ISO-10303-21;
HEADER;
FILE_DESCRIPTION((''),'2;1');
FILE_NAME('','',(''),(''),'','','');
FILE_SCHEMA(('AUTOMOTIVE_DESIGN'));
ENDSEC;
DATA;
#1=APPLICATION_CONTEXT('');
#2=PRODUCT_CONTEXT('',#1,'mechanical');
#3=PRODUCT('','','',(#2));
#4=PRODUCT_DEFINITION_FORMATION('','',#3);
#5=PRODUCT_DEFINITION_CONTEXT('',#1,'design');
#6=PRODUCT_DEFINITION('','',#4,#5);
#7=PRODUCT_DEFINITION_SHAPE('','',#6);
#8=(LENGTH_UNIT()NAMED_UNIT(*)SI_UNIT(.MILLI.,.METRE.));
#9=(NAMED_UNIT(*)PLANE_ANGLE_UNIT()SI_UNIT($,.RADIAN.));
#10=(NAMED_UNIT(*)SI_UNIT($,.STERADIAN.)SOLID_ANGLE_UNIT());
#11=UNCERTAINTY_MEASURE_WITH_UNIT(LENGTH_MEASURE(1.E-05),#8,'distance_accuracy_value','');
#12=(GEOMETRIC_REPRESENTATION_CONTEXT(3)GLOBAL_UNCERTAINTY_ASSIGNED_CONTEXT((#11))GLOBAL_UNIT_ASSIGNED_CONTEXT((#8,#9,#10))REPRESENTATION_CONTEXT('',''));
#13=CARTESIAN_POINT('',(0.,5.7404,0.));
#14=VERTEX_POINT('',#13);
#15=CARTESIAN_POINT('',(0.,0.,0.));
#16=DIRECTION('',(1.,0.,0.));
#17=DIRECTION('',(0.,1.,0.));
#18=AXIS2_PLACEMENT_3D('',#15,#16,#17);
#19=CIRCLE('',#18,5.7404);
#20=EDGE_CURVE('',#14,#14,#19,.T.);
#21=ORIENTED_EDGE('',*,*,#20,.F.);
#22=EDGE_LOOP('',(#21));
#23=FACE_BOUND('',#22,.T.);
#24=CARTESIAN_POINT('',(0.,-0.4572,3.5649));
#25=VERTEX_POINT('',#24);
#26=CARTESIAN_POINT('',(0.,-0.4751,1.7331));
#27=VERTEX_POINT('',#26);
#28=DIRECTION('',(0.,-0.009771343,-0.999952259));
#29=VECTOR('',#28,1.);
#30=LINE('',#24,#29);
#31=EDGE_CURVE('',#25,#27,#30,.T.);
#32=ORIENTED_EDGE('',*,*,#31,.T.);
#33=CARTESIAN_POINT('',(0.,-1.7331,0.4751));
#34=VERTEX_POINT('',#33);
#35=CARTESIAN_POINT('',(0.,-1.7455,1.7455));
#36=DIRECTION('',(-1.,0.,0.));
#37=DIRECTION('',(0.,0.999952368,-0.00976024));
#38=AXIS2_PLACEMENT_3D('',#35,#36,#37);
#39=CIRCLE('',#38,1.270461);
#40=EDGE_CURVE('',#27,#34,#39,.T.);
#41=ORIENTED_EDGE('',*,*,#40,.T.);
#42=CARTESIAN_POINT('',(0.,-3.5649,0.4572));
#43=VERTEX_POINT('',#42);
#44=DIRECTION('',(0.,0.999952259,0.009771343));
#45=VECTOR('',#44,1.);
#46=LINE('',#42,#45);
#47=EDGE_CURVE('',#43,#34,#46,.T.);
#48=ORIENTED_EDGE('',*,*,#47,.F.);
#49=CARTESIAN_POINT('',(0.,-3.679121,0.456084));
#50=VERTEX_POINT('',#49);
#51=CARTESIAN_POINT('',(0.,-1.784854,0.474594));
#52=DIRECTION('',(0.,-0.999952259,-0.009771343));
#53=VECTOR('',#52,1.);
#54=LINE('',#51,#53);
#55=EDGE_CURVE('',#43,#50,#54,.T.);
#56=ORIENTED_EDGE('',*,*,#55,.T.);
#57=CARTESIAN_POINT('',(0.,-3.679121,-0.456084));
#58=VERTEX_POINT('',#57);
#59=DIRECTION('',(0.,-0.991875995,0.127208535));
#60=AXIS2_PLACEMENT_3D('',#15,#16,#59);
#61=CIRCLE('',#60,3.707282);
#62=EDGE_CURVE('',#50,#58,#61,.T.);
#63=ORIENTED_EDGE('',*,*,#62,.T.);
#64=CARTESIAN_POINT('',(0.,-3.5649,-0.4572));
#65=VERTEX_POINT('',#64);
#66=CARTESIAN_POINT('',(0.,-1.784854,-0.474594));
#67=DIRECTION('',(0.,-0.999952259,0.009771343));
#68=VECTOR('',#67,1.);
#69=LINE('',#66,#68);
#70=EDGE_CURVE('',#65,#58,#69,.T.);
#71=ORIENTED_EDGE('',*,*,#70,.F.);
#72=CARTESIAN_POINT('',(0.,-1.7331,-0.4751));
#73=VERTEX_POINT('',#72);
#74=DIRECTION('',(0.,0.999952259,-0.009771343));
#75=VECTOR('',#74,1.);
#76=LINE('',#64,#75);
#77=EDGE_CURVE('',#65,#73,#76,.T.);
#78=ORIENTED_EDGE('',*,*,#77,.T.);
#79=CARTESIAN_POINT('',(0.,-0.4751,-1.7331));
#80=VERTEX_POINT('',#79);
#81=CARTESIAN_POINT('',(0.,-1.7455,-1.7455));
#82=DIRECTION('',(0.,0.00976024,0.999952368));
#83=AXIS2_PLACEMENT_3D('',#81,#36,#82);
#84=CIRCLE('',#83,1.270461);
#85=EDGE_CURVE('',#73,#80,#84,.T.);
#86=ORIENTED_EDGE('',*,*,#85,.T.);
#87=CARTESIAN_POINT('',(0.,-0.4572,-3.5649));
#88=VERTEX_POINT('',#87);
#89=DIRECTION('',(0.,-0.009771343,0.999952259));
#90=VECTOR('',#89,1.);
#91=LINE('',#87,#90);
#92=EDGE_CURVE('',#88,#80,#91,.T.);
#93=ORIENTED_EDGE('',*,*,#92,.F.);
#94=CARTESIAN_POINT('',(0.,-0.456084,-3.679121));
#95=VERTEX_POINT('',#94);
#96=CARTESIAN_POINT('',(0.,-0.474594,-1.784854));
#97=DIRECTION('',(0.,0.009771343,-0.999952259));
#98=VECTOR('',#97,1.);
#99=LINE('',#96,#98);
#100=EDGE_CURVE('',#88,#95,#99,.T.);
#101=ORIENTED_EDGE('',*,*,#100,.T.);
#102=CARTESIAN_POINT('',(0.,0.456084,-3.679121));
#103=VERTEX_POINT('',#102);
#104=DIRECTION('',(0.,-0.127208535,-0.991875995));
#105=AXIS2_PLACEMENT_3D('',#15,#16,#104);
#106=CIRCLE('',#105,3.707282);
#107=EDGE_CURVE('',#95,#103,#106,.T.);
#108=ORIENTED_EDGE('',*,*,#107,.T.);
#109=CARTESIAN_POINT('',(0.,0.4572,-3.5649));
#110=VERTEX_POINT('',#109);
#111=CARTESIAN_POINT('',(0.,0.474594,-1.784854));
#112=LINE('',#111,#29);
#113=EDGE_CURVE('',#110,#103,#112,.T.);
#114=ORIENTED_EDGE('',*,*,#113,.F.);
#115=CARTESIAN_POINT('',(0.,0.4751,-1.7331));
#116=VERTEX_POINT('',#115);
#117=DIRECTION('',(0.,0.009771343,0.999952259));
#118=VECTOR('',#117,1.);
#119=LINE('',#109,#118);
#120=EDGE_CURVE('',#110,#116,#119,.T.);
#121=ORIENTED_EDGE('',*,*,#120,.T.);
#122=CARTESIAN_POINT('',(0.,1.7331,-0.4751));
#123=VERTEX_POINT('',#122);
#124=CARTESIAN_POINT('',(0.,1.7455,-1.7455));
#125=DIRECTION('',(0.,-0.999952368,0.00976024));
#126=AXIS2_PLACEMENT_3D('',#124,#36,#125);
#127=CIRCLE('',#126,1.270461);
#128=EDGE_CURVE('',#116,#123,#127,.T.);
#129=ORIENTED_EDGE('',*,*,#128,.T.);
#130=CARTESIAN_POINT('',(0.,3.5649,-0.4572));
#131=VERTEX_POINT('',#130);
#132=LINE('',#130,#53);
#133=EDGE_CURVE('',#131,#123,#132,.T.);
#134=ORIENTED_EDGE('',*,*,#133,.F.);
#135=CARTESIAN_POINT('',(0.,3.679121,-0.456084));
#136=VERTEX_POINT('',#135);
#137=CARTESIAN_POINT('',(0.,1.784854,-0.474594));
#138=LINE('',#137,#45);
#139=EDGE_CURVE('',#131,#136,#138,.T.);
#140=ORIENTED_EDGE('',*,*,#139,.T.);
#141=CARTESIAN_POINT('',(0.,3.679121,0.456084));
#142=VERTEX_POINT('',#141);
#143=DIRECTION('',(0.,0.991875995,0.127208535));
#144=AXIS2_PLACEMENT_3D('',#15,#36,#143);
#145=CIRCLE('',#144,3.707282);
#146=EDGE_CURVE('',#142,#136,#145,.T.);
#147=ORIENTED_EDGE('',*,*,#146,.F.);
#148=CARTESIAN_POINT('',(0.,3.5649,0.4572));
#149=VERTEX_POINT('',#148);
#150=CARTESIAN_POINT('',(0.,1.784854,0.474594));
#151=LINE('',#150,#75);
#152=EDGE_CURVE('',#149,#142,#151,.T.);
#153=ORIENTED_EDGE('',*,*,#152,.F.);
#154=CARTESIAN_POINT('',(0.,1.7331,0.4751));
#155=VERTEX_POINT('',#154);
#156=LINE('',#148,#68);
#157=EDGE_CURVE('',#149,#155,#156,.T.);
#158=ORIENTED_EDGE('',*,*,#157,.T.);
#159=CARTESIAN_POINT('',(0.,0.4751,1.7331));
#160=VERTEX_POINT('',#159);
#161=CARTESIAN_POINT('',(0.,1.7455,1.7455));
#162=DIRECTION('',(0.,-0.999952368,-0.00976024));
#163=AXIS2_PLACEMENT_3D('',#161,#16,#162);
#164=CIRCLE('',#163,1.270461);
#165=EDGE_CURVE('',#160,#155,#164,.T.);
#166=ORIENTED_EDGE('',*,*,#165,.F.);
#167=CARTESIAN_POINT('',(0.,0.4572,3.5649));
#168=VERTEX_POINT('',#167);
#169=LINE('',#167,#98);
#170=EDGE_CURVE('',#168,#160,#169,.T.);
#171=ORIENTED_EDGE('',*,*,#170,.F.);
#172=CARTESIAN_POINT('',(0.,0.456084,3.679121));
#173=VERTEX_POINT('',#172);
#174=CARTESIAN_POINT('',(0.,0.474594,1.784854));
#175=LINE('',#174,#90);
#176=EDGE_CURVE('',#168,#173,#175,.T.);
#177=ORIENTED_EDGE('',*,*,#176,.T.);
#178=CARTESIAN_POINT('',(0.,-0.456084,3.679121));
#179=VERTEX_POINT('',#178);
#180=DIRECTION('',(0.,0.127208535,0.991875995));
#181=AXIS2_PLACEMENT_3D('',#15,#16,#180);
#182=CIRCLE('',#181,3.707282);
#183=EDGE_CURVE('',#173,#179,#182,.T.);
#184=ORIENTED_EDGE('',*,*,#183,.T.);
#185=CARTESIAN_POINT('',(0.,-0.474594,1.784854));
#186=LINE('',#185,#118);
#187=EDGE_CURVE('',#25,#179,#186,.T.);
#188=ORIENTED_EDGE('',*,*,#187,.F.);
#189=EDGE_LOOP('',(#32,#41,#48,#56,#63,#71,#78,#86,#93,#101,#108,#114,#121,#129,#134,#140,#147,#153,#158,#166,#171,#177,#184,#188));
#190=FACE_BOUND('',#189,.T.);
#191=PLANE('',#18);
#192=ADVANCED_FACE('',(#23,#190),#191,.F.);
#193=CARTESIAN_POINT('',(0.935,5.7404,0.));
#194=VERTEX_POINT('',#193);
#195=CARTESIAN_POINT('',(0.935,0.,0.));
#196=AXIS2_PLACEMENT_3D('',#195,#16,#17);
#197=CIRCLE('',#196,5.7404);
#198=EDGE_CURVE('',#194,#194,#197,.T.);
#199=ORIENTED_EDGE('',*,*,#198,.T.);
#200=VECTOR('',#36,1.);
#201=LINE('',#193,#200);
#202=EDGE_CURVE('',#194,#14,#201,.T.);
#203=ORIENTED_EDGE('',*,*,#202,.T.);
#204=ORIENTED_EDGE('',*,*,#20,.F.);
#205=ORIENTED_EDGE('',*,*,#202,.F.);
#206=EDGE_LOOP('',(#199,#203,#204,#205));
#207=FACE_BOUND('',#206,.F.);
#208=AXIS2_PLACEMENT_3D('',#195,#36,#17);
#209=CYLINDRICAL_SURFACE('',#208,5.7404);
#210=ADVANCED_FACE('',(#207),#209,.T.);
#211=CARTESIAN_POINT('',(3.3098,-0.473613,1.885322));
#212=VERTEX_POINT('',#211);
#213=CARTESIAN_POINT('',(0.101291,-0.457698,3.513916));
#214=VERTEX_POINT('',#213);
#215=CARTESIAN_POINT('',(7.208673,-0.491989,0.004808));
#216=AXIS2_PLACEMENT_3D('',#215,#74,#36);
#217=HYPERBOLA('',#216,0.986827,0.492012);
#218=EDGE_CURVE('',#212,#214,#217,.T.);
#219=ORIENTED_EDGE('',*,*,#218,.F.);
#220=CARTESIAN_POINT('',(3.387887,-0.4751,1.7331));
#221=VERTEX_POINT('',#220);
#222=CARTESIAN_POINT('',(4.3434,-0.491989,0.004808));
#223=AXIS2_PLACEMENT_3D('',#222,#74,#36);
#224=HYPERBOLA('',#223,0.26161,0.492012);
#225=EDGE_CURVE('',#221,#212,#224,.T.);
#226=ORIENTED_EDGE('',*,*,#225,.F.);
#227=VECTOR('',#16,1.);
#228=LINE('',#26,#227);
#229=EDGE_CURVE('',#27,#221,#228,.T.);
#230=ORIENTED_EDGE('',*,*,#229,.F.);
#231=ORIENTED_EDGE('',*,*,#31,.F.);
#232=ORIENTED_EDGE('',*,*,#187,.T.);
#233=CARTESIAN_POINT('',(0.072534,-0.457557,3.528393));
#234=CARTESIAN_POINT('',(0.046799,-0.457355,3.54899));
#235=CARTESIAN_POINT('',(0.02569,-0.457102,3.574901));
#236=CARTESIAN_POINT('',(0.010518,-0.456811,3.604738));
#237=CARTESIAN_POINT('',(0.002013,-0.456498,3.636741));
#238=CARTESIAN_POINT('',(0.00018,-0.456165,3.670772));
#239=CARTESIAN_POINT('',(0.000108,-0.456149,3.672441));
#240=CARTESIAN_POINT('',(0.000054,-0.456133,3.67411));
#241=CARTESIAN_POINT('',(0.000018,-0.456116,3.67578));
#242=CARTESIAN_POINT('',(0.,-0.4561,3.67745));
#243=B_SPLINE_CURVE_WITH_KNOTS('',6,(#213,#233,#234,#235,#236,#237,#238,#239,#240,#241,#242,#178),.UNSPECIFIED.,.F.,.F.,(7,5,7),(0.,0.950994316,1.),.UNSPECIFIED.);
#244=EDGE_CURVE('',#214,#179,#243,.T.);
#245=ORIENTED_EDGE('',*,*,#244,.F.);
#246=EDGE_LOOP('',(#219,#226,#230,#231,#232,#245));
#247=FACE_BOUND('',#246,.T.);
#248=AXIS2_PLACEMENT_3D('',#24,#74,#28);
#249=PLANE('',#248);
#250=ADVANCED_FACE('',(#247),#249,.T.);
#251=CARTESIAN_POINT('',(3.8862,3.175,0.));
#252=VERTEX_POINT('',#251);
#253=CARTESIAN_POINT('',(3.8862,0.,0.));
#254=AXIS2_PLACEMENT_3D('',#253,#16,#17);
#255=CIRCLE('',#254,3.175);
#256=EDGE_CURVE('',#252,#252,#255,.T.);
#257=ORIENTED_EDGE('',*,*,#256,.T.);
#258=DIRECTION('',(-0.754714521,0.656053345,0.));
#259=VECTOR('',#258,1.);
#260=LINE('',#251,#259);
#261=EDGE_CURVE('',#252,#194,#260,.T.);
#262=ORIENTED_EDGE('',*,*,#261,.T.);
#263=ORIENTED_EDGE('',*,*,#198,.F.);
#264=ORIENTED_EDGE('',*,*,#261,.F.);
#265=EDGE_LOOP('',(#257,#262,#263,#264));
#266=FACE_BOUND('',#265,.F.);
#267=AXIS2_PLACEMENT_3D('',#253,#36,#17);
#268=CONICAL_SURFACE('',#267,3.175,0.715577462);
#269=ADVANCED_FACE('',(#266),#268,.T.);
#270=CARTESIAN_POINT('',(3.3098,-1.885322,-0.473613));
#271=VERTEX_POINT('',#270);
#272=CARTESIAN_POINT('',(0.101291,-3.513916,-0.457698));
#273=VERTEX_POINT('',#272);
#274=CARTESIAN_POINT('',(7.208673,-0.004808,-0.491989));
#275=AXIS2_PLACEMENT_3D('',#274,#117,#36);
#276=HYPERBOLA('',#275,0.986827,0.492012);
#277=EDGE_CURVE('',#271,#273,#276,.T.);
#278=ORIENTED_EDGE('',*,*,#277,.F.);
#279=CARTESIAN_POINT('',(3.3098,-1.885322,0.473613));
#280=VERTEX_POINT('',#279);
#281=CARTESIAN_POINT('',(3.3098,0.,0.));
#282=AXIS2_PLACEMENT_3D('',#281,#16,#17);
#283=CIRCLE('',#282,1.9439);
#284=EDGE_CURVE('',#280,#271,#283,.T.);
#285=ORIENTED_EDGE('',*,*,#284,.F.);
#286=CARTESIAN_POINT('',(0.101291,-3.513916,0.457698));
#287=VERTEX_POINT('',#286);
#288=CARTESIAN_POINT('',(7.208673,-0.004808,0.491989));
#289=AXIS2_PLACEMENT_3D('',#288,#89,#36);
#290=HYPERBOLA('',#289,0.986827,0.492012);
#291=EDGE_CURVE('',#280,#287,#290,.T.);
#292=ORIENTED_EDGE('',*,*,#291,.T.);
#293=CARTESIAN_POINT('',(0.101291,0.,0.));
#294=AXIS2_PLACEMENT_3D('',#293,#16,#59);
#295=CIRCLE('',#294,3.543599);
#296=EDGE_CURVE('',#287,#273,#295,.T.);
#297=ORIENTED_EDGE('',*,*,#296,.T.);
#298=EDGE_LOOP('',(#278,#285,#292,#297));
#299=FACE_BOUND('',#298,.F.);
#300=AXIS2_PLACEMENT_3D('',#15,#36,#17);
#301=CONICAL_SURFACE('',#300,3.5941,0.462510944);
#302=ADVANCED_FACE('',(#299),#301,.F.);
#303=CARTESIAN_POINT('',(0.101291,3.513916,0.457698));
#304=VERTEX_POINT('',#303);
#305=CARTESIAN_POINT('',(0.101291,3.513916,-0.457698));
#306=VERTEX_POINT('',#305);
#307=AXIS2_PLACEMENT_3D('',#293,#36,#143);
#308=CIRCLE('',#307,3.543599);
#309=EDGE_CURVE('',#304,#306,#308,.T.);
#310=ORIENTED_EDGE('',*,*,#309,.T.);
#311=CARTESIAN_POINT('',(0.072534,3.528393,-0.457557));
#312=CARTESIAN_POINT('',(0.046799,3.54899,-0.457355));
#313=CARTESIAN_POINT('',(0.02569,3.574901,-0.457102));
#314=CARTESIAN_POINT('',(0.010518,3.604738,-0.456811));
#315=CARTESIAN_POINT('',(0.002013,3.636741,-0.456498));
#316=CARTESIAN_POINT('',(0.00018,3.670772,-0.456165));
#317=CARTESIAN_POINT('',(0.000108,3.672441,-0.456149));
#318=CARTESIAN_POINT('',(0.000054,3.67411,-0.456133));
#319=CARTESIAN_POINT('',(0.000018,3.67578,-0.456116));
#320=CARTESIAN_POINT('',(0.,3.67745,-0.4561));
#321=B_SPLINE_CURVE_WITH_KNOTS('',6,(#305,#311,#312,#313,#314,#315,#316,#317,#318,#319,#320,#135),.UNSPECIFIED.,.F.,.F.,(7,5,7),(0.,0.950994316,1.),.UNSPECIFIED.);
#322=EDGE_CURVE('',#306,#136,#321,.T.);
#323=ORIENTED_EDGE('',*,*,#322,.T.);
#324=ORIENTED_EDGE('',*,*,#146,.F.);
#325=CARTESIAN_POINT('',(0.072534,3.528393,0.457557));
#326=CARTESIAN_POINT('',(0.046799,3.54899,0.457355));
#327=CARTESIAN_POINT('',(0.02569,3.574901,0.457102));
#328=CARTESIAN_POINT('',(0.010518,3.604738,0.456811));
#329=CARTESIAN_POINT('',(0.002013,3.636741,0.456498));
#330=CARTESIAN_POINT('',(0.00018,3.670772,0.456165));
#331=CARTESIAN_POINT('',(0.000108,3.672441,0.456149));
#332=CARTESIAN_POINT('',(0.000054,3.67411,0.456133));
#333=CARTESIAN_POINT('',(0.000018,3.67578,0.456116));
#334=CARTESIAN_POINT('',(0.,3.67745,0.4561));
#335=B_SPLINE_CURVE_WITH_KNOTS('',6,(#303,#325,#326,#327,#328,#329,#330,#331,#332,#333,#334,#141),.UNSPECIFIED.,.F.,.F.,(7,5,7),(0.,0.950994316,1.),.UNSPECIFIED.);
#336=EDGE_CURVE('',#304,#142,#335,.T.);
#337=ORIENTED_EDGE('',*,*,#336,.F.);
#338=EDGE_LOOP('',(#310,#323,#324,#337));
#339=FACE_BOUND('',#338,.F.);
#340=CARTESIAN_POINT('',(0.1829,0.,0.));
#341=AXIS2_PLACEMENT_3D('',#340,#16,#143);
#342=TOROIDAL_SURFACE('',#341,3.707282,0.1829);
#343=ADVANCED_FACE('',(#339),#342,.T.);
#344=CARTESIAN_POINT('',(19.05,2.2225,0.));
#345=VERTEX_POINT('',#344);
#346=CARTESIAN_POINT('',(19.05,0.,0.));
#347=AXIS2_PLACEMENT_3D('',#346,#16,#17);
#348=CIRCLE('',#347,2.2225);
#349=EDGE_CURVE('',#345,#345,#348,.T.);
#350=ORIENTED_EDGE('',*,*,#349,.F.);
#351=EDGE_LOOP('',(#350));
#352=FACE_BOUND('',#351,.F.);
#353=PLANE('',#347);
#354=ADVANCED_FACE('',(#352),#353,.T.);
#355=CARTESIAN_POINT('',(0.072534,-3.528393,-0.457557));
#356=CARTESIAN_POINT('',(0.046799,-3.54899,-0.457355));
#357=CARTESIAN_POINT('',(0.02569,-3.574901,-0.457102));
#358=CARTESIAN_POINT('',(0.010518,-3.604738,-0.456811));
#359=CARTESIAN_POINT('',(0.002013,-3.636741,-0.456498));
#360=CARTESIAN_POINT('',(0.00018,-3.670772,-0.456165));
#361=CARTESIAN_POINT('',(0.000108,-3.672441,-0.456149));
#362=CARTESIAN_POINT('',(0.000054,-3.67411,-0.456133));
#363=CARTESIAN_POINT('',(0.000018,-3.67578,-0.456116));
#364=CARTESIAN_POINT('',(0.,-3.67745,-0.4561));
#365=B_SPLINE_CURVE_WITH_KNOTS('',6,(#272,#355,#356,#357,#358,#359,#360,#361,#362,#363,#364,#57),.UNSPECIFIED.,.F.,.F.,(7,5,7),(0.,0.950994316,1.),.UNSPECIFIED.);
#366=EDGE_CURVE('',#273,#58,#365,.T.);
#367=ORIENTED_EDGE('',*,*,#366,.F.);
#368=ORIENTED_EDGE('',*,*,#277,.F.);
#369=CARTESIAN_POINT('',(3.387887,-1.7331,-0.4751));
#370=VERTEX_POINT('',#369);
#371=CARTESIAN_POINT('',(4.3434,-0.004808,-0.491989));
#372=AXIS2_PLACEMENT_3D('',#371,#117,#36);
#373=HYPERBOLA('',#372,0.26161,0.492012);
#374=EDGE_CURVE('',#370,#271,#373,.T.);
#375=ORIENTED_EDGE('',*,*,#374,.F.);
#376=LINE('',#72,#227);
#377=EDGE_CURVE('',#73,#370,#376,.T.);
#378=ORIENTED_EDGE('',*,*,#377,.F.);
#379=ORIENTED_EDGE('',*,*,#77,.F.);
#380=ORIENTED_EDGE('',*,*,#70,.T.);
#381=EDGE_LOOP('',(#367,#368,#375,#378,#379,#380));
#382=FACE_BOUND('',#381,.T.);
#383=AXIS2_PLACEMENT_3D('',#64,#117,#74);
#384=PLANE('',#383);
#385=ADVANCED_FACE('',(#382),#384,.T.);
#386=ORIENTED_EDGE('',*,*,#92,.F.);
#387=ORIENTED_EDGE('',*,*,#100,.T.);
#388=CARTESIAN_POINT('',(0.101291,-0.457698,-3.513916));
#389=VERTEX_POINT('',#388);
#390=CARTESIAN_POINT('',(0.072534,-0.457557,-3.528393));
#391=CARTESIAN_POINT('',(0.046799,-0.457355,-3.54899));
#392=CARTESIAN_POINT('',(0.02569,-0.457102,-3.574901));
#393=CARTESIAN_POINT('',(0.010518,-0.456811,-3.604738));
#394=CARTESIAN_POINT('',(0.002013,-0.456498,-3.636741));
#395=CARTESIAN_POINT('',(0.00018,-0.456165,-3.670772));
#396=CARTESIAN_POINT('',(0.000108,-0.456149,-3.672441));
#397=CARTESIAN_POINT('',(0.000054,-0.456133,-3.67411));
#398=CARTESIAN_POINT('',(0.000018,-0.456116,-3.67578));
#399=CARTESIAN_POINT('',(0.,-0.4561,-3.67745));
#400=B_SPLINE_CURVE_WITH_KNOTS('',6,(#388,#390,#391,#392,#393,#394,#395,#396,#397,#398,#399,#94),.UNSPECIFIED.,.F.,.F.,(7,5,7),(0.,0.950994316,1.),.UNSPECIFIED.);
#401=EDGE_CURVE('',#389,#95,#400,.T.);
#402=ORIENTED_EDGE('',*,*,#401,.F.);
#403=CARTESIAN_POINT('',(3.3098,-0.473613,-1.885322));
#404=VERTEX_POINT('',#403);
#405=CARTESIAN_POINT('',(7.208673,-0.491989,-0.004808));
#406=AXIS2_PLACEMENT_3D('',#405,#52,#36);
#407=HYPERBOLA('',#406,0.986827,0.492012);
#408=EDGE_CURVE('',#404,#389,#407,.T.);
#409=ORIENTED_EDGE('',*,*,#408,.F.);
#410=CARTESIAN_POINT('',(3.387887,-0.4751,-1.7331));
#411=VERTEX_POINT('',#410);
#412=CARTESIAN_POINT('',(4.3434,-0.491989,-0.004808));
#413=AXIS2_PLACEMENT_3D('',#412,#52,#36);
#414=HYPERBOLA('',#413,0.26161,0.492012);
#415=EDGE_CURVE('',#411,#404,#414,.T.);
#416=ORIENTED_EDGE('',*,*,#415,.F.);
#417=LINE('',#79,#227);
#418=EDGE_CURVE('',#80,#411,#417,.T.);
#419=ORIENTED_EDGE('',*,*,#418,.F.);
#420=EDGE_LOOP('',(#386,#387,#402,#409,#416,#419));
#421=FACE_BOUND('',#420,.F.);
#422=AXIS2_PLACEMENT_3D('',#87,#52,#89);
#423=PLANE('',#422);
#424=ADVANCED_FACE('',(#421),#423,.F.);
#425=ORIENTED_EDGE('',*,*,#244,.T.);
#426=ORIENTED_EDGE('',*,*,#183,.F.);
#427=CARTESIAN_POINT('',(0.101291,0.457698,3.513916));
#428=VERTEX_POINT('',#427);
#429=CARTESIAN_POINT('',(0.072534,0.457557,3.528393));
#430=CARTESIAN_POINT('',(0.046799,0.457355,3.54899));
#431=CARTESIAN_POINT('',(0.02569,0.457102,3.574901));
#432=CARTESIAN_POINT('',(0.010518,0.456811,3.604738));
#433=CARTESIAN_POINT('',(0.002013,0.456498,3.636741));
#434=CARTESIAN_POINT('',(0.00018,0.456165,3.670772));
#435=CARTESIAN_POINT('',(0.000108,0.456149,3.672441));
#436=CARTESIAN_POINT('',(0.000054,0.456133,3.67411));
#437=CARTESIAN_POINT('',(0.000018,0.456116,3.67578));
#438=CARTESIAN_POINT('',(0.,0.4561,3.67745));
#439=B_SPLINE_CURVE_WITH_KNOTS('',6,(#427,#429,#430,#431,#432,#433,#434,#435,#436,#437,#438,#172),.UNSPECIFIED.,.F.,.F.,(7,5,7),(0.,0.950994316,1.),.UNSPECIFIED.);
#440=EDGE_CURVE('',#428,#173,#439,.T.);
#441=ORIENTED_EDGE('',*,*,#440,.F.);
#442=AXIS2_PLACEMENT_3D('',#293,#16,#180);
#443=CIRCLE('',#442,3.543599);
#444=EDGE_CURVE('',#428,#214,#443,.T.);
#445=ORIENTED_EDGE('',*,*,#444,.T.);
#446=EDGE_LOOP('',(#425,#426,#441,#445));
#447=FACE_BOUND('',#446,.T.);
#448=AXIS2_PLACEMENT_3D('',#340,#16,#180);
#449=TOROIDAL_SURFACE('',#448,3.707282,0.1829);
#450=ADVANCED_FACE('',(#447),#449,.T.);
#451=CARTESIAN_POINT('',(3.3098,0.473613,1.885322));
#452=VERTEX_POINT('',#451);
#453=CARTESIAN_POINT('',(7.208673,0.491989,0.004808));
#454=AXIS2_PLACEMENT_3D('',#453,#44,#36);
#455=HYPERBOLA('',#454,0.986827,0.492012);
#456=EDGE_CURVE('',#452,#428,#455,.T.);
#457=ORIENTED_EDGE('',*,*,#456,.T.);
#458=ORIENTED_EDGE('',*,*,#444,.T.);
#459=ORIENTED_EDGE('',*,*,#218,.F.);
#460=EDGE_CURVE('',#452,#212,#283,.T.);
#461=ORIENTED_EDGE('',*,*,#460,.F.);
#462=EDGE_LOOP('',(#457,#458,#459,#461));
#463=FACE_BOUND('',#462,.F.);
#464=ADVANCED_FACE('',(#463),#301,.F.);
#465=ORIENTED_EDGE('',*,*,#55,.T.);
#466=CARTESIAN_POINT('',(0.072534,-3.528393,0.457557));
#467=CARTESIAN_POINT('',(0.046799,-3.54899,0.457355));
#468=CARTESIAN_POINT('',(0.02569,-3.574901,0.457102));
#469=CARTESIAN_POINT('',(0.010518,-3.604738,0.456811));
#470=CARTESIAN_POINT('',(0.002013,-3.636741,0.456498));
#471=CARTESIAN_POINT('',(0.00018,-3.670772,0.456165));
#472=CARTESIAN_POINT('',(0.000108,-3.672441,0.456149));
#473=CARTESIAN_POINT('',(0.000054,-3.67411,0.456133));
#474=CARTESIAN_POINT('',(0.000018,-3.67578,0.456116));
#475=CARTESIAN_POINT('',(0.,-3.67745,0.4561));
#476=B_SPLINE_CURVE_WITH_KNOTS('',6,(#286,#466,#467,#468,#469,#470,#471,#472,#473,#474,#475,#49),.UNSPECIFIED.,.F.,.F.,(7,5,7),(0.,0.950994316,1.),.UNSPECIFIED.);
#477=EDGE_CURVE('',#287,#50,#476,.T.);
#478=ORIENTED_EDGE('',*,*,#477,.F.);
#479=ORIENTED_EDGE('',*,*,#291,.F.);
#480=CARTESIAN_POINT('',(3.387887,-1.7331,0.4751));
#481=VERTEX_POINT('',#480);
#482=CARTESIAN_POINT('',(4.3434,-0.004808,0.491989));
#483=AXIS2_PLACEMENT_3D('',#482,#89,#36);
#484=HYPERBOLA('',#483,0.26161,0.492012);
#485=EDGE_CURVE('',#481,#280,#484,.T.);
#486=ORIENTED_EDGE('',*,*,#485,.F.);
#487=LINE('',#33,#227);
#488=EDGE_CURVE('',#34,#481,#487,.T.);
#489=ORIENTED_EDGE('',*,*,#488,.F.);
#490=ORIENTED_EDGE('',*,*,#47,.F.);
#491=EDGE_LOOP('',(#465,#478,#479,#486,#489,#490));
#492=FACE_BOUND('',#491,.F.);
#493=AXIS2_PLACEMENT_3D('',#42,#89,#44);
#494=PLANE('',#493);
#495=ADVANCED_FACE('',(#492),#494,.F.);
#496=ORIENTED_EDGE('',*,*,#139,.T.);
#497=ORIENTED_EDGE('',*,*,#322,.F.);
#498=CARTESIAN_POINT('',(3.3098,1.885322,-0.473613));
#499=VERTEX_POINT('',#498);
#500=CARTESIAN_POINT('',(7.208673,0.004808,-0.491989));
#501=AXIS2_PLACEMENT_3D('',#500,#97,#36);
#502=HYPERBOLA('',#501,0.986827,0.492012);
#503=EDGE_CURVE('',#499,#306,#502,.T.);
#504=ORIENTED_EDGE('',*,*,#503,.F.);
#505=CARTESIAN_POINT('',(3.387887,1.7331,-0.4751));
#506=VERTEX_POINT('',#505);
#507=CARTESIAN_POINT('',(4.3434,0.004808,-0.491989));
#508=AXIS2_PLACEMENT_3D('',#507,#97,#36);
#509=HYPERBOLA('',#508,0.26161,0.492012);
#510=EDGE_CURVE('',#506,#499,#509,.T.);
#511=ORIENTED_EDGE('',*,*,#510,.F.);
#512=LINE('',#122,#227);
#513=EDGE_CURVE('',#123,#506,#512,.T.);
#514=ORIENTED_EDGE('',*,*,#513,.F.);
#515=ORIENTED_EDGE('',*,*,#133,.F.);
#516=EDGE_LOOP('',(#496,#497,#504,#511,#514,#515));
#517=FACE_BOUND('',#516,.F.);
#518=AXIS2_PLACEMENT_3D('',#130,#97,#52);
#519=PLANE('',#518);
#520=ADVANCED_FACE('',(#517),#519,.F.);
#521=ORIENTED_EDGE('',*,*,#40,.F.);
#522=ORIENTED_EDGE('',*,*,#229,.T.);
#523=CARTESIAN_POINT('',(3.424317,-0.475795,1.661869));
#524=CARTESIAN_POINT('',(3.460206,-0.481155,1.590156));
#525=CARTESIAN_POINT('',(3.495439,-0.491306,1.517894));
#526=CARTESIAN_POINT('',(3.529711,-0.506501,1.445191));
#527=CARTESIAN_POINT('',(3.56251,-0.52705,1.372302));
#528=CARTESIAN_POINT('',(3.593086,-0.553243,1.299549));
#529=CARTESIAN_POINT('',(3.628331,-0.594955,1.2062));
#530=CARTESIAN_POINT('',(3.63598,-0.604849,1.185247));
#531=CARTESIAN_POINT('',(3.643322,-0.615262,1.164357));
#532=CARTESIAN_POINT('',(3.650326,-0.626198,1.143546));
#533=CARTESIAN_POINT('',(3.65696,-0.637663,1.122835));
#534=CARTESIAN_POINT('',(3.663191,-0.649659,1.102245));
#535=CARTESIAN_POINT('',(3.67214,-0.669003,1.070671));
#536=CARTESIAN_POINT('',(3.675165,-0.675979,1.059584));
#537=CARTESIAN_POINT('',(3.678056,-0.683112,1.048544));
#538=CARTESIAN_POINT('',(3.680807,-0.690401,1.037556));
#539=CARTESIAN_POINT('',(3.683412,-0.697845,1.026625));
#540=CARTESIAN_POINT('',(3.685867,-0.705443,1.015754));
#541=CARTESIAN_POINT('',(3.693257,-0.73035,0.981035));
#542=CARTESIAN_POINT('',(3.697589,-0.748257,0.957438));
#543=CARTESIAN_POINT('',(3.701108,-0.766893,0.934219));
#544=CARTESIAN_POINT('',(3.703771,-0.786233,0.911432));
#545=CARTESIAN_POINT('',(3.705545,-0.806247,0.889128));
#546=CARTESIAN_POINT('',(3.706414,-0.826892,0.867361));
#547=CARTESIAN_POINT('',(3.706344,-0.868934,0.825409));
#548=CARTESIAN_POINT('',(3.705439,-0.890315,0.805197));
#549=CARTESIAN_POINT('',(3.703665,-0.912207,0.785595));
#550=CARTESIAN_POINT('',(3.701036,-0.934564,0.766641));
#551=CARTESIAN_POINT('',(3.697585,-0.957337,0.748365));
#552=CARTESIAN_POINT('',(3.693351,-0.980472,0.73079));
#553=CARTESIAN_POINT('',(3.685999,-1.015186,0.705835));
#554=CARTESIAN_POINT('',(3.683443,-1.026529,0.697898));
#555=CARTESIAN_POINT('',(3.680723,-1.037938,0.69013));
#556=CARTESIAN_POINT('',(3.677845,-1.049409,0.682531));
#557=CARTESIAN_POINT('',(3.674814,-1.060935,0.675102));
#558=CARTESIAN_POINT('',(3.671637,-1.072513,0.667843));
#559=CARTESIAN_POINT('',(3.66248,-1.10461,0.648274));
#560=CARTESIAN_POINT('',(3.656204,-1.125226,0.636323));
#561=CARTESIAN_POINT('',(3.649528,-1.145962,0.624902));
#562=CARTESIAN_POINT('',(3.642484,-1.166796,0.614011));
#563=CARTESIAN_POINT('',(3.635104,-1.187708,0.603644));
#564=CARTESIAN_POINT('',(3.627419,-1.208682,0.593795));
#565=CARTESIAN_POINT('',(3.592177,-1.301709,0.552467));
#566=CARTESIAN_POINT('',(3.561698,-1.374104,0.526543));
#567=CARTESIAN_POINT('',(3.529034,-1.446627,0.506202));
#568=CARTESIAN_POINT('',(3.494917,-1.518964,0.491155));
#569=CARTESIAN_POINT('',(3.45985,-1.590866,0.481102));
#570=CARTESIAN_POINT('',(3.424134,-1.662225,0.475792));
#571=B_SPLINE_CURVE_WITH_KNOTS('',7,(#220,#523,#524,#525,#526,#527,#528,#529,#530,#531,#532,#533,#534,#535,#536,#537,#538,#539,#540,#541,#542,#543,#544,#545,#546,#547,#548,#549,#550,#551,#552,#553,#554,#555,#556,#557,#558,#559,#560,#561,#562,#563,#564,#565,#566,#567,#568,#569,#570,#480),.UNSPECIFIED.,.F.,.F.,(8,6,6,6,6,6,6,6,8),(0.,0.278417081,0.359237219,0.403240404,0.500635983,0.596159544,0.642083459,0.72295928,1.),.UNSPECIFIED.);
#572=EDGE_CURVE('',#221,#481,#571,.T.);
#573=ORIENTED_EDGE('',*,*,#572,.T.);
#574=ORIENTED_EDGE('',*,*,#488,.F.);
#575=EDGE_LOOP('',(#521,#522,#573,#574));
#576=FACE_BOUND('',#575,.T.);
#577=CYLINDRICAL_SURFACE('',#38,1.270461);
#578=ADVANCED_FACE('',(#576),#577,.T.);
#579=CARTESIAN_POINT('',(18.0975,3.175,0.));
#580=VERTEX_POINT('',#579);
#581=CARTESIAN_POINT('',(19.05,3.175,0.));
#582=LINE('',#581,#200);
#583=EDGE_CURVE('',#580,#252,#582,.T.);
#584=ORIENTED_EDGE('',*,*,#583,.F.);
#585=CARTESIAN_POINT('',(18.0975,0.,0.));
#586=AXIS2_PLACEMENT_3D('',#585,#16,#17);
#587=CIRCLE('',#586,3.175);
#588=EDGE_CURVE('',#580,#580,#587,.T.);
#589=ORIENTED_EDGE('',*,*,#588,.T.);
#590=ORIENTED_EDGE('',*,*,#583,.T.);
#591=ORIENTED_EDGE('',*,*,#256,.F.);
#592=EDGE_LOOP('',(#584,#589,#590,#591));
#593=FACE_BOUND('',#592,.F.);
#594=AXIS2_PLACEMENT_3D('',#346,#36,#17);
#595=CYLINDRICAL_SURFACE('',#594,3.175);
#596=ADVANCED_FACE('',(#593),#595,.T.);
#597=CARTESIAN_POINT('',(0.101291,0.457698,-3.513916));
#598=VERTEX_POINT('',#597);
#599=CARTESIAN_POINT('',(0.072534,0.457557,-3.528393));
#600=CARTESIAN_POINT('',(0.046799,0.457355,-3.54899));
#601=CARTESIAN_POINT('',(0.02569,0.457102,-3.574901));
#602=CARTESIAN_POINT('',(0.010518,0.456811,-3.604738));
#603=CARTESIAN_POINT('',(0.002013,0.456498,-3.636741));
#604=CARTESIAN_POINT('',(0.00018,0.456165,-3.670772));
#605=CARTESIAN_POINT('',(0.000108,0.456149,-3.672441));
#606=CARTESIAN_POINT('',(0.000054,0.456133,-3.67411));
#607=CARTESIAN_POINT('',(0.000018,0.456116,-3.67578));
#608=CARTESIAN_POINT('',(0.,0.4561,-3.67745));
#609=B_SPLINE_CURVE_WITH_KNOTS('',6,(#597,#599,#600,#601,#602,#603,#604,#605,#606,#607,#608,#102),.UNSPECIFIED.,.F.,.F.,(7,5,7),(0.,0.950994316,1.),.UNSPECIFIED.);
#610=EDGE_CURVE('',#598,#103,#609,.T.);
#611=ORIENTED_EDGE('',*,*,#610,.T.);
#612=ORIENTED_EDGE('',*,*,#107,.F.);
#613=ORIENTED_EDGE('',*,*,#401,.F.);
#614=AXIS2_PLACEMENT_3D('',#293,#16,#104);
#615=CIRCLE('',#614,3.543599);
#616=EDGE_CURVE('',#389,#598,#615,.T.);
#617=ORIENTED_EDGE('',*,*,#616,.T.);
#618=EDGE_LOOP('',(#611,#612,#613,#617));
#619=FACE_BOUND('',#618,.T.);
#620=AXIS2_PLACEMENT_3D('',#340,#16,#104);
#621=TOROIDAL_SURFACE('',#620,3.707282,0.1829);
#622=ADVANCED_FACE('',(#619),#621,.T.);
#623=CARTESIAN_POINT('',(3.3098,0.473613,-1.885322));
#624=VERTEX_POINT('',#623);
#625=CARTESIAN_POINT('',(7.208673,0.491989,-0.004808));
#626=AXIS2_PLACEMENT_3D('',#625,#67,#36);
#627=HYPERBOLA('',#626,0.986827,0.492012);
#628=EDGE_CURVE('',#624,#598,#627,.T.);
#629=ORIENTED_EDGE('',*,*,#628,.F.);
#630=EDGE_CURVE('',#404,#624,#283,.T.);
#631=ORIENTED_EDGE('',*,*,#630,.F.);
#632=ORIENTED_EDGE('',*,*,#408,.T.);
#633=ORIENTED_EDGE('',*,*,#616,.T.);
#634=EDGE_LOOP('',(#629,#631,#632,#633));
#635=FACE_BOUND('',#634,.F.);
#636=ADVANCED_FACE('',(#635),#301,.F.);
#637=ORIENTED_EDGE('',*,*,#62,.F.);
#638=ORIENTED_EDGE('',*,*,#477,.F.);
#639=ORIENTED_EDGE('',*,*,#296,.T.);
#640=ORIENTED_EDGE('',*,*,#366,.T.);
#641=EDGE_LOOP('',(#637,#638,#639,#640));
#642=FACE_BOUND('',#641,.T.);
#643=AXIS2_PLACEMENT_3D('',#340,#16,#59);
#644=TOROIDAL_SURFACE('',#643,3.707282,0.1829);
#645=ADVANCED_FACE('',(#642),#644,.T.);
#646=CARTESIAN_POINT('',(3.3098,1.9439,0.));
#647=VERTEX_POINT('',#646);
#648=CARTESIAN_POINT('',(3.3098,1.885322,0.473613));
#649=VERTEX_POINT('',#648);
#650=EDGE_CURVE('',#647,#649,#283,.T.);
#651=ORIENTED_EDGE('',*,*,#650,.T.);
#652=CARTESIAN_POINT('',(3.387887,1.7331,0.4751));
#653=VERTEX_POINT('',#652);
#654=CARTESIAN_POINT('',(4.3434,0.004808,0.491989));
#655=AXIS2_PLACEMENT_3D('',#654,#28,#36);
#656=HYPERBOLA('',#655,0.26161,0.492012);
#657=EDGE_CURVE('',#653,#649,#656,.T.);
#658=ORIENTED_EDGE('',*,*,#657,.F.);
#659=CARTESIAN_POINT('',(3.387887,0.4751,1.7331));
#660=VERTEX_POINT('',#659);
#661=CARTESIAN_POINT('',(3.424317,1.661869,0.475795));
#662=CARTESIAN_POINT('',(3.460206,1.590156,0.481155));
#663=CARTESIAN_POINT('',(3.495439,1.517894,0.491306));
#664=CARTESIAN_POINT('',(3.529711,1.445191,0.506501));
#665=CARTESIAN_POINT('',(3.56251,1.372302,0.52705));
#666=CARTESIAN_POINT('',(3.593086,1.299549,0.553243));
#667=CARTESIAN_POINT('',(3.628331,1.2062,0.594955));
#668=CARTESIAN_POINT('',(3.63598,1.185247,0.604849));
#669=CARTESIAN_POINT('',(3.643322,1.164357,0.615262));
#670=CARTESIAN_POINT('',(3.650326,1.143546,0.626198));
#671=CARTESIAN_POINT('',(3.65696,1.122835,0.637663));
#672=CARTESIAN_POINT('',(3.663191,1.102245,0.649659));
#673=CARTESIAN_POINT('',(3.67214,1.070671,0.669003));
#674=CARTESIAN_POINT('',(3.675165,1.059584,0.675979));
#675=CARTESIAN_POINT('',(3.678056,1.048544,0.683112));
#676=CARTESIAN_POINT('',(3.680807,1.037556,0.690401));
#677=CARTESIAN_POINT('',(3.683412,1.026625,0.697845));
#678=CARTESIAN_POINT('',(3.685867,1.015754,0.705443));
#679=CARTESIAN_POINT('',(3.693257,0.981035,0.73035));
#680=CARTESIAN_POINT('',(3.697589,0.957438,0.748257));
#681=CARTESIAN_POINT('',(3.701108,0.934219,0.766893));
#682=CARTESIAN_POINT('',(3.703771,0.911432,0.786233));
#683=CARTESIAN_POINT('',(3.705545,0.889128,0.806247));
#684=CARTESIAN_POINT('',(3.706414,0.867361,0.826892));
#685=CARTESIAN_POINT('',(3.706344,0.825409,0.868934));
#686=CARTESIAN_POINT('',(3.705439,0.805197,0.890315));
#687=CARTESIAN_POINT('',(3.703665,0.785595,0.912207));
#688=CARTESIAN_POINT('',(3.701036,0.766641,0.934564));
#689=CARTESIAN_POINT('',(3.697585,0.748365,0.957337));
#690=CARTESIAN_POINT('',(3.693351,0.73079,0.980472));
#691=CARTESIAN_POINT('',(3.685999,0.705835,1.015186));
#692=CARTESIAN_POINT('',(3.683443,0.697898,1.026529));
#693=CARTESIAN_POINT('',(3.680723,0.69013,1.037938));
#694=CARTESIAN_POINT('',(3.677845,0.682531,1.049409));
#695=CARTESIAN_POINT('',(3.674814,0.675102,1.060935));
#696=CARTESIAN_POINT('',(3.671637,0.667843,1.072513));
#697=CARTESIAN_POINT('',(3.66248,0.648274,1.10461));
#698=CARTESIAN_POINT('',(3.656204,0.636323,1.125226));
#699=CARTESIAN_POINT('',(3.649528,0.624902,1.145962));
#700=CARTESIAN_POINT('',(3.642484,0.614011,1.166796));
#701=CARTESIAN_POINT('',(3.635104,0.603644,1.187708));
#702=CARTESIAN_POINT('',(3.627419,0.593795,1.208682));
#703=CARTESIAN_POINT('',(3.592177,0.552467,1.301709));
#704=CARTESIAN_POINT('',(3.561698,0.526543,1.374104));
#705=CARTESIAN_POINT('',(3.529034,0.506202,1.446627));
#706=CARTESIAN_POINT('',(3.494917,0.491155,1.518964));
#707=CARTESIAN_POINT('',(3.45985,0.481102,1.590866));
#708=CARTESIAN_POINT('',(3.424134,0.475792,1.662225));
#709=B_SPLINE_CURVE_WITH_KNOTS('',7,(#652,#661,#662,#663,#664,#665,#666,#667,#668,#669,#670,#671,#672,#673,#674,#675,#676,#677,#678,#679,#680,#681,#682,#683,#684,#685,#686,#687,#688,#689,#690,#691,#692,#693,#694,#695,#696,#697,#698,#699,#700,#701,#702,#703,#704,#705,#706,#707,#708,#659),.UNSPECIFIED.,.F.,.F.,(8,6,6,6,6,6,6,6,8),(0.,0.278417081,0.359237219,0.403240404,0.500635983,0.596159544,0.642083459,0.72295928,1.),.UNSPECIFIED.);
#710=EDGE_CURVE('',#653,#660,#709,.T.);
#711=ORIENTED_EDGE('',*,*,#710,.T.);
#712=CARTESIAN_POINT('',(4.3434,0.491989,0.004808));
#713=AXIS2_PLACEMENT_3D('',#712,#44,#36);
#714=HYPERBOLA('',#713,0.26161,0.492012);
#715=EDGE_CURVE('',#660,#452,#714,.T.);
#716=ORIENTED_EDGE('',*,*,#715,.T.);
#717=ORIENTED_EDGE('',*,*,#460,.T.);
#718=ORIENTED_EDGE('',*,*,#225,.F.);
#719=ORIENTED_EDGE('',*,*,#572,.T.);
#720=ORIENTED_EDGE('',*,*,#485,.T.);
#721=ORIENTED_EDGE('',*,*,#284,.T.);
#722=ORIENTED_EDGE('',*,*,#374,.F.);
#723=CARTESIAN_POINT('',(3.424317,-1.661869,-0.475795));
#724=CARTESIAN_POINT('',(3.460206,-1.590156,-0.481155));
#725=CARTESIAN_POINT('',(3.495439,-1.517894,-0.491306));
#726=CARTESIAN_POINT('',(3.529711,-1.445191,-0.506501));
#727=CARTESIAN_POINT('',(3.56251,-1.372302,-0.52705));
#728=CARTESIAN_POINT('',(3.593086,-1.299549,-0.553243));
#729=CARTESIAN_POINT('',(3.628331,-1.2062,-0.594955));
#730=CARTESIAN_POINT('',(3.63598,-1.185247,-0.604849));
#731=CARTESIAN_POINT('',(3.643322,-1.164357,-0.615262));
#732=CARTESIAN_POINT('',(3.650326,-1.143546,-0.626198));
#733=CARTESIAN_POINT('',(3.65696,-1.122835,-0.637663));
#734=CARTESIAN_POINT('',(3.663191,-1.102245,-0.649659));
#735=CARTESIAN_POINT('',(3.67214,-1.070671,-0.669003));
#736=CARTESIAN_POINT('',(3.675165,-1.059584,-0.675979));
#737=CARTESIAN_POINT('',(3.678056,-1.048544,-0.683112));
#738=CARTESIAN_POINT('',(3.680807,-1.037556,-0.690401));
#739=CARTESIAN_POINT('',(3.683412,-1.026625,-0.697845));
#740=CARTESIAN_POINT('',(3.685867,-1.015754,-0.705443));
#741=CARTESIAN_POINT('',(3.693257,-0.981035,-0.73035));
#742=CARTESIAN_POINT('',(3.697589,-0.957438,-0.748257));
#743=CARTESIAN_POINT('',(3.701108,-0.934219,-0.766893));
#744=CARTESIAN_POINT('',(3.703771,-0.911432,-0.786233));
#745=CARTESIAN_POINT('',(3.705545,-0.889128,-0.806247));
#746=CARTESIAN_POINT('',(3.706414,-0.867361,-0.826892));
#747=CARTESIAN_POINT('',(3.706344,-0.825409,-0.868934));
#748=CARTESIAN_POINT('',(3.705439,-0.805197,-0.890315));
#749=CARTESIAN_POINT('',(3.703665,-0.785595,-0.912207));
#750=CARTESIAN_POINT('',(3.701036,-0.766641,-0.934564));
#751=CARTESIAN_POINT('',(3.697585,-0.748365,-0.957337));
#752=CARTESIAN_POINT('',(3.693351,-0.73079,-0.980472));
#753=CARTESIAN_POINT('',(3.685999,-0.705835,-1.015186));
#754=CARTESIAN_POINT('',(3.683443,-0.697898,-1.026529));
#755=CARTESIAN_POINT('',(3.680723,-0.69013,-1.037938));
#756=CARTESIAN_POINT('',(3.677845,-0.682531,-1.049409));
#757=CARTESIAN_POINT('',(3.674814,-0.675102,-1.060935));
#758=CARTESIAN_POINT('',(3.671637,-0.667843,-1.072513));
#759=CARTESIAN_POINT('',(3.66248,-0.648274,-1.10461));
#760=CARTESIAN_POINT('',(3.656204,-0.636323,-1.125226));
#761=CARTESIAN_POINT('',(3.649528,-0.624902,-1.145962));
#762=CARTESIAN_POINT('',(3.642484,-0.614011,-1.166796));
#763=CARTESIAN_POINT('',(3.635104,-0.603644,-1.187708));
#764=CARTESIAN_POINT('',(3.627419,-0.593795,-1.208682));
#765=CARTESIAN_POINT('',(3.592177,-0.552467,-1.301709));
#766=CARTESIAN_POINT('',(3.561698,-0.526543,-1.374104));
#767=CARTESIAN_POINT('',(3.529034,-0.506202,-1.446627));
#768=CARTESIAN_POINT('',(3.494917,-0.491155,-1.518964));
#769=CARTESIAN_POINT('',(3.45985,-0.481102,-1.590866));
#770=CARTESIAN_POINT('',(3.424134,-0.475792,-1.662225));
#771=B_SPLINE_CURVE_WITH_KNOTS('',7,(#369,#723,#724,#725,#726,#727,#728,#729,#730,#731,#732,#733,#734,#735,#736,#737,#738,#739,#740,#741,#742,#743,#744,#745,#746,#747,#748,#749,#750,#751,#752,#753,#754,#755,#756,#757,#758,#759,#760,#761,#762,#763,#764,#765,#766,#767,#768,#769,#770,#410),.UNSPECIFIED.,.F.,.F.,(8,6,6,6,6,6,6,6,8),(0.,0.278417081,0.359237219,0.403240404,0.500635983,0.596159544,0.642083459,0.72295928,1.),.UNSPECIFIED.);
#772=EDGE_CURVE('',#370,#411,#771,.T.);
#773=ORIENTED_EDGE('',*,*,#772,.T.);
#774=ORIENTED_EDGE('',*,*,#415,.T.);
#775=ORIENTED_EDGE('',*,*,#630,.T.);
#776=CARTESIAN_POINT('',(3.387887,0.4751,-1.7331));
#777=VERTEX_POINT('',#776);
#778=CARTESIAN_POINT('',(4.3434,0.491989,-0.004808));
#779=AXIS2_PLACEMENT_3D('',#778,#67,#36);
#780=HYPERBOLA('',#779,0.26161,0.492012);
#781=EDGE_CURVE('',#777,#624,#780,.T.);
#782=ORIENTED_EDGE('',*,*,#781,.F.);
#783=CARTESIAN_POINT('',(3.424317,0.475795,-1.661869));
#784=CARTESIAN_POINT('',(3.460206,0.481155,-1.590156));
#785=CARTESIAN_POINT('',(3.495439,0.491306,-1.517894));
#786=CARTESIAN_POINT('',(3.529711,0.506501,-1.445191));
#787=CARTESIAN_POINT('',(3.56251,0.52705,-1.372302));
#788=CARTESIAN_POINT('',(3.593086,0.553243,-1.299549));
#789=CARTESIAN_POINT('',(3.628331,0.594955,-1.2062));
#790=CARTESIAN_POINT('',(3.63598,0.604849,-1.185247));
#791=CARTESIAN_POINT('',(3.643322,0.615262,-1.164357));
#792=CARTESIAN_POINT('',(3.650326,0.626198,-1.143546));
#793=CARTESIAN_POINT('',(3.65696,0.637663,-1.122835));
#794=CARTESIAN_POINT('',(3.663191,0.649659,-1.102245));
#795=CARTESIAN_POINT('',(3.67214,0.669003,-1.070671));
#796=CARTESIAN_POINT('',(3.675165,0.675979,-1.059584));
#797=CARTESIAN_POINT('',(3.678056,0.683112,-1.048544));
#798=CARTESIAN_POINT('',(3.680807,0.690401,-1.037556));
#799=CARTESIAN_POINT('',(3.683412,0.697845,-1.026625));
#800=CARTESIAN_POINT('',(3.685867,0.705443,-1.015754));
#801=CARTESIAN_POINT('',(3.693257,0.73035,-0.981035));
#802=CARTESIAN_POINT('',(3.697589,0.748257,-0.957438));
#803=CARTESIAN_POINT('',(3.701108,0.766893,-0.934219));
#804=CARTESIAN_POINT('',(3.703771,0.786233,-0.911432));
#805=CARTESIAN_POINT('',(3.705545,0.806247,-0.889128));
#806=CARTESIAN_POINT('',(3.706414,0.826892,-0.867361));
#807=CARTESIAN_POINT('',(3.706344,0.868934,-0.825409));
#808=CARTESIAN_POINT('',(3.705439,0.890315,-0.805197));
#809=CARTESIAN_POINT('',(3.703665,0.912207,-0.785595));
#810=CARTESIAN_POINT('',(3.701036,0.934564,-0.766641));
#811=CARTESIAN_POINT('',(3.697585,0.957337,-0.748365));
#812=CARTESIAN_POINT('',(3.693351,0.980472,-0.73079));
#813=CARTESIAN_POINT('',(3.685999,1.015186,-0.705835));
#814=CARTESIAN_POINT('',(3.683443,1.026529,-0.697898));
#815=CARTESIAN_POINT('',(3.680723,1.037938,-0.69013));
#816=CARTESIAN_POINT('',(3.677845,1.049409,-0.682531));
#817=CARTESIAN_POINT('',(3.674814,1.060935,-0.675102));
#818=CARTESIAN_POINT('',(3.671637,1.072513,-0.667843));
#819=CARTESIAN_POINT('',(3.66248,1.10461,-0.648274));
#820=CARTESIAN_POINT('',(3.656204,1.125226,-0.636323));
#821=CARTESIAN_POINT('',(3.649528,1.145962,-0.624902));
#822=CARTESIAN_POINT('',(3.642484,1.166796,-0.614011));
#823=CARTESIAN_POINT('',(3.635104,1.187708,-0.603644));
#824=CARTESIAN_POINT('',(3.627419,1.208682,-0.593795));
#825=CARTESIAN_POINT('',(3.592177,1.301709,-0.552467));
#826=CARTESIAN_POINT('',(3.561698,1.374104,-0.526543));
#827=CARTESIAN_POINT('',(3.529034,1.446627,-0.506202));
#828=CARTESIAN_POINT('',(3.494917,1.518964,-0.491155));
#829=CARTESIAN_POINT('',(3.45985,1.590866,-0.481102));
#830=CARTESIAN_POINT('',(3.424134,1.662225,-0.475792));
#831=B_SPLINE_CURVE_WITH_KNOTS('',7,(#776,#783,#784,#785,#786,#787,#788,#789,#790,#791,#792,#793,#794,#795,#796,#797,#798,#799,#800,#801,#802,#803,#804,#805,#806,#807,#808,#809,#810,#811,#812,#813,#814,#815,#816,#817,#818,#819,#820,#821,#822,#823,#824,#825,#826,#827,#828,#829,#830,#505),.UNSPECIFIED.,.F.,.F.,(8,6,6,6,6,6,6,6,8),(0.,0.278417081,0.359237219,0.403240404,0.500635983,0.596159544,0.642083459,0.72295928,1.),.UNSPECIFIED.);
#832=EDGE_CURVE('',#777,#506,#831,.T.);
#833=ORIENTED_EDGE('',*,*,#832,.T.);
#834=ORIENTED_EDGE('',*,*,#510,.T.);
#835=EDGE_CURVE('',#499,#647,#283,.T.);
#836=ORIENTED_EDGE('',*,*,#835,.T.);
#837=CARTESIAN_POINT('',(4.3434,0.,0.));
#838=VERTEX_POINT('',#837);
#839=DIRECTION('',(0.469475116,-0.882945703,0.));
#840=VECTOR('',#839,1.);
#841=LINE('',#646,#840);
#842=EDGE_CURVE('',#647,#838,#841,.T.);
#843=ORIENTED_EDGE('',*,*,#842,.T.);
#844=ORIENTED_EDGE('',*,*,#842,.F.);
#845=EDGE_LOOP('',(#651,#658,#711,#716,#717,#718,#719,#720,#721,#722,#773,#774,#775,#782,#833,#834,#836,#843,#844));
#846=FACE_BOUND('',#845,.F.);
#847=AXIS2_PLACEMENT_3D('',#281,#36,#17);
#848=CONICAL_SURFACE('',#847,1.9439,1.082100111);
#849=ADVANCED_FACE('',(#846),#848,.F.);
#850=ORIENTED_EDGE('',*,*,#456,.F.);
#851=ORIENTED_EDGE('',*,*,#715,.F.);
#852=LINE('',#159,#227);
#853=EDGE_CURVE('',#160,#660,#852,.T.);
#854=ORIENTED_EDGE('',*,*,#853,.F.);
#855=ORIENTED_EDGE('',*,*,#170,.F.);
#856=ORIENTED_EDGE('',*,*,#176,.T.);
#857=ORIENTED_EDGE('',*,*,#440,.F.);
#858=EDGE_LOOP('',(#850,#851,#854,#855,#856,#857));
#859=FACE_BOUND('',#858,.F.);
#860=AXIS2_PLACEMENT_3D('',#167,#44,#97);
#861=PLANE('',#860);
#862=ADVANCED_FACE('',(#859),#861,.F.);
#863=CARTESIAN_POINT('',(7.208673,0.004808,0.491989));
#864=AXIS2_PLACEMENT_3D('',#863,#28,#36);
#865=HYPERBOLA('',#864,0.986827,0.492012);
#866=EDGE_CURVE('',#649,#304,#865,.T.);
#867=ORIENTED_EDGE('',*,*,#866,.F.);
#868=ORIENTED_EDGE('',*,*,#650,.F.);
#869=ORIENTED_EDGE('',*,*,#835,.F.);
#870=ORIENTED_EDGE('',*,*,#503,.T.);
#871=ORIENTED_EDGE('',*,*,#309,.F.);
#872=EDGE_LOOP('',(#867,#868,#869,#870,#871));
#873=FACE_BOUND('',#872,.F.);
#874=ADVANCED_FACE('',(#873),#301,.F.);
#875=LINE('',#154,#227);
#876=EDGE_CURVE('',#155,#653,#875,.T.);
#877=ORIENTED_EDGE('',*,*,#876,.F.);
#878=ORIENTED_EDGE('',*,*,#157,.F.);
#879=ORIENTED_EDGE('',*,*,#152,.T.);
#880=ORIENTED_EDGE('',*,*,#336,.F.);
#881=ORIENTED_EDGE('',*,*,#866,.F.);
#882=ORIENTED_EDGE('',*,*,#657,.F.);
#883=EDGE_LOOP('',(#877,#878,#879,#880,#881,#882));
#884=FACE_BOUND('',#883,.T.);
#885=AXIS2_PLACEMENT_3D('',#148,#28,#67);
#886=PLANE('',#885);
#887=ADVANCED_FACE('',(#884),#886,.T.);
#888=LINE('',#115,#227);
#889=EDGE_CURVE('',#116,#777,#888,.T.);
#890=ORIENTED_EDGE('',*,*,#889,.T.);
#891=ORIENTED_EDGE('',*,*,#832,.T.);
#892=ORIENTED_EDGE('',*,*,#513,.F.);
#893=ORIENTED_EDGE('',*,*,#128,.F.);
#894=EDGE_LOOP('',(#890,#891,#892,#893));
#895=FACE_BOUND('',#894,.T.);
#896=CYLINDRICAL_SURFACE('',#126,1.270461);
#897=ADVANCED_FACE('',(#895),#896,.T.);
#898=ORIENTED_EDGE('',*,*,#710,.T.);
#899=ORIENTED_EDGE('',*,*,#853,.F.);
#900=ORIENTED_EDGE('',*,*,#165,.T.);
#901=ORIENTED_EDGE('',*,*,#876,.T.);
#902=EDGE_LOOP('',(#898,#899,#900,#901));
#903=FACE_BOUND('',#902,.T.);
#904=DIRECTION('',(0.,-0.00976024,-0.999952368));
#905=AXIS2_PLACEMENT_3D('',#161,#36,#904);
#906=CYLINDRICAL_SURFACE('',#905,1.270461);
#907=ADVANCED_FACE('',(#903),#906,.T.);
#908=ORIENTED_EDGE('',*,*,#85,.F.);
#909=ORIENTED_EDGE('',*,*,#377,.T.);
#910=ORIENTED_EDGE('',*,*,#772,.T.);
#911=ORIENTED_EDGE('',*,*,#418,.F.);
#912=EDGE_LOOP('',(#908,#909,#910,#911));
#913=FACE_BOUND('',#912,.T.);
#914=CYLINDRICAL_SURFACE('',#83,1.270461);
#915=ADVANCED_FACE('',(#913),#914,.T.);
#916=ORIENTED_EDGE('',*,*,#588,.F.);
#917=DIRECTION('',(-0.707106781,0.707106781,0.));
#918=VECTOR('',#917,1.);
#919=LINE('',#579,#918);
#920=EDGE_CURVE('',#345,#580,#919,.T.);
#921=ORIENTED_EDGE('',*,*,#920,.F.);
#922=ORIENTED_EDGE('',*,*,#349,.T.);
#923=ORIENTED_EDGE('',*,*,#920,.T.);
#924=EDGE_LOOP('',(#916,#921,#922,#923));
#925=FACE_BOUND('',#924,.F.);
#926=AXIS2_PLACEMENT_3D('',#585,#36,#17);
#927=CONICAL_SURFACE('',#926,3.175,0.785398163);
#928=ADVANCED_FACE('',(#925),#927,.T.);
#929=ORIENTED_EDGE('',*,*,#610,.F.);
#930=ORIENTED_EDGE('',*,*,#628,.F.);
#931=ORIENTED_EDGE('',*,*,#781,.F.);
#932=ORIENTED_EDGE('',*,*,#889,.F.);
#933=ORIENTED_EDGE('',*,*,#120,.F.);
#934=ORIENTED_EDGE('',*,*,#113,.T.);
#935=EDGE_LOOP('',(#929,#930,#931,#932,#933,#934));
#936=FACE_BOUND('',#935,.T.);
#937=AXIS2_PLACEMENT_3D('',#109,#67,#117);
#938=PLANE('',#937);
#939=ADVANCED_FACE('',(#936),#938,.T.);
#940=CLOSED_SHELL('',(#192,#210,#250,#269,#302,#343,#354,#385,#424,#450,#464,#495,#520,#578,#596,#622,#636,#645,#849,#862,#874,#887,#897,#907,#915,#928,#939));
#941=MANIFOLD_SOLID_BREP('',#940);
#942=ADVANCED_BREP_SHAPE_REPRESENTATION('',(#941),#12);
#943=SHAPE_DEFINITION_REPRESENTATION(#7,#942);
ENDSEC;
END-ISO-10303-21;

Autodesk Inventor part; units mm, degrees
ref_plane "YZ Plane" through (0, 0, 0) normal (1, 0, 0) x (0, 1, 0)
ref_plane "XZ Plane" through (0, 0, 0) normal (0, 1, 0) x (-1, 0, 0)
sketch "Sketch1" plane through (0, 0, 0) normal (0, 0, 1) x (1, 0, 0)
  line L0 (4.3434, 0) -> (19.05, 0)
  line L1 (19.05, 0) -> (19.05, 3.175)
  line L2 (19.05, 3.175) -> (3.8862, 3.175)
  line L3 (0.935, 5.7404) -> (0, 5.7404)
  line L4 (-3.81, 0) -> (22.86, 0) projected
  line L5 (0, -1.1481) -> (0, 6.8885) projected
  line L6 (0, 3.5941) -> (3.3098, 1.9439)
  line L7 (3.3098, 1.9439) -> (4.3434, 0)
  line L8 (3.8862, 3.175) -> (0.935, 5.7404)
  line L9 (0, 5.7404) -> (0, 3.5941)
  dimension "d2" = 6.35
  dimension "d3" = 11.4808
  dimension "d4" = 4.3434
  dimension "d5" = 7.1882
  dimension "d6" = 26.5
  dimension "d7" = 62
  dimension "d13" = 41
  dimension "d14" = 3.8862
  dimension "d15" = 19.05
revolve "Body" add sketch "Sketch1" angle 360 about axis through (4.3434, 0, 0) along (1, 0, 0) contours L7 L6 L5 L3 L8 L2 L1 L0
sketch "Sketch2" plane through (0, 0, 0) normal (-1, 0, 0) x (0, 0, 1)
  line L0 (0, -8.0366) -> (0, 8.0366) projected
  line L1 (-8.0366, 0) -> (8.0366, 0) projected
  line L2 (0, 3.5941) -> (0, 0) construction
  line L3 (0, 0) -> (3.5941, 0) construction
  arc A0 (1.198, 0) -> (0, 1.198) centre (0, 0) ccw
  line L4 (0, 0) -> (0.7947, 0.7947) construction
  arc A1 (1.797, 0) -> (0, 1.797) centre (0, 0) ccw construction
  line L5 (0.4572, 3.5649) -> (0.4751, 1.7331)
  line L6 (3.5649, 0.4572) -> (1.7331, 0.4751)
  arc A2 (0.4751, 1.7331) -> (1.7331, 0.4751) centre (1.7455, 1.7455) ccw
  arc A3 (3.5941, 0) -> (3.5649, 0.4572) centre (0, 0) ccw
  arc A4 (0.4572, 3.5649) -> (0, 3.5941) centre (0, 0) ccw
  arc A5 (3.5649, 0.4572) -> (0.4572, 3.5649) centre (0, 0) ccw
  line L7 (0.4572, -3.5649) -> (0.4751, -1.7331)
  line L8 (3.5649, -0.4572) -> (1.7331, -0.4751)
  arc A6 (1.7331, -0.4751) -> (0.4751, -1.7331) centre (1.7455, -1.7455) ccw
  arc A7 (3.5649, -0.4572) -> (3.5941, 0) centre (0, 0) ccw
  arc A8 (0, -3.5941) -> (0.4572, -3.5649) centre (0, 0) ccw
  arc A9 (0.4572, -3.5649) -> (3.5649, -0.4572) centre (0, 0) ccw
  line L9 (-0.4572, 3.5649) -> (-0.4751, 1.7331)
  line L10 (-3.5649, 0.4572) -> (-1.7331, 0.4751)
  arc A10 (-1.7331, 0.4751) -> (-0.4751, 1.7331) centre (-1.7455, 1.7455) ccw
  arc A11 (-3.5649, 0.4572) -> (-3.5941, 0) centre (0, 0) ccw
  arc A12 (0, 3.5941) -> (-0.4572, 3.5649) centre (0, 0) ccw
  arc A13 (-0.4572, 3.5649) -> (-3.5649, 0.4572) centre (0, 0) ccw
  arc A14 (-3.5649, -0.4572) -> (-0.4572, -3.5649) centre (0, 0) ccw
  arc A15 (-0.4572, -3.5649) -> (0, -3.5941) centre (0, 0) ccw
  arc A16 (-3.5941, 0) -> (-3.5649, -0.4572) centre (0, 0) ccw
  line L11 (-3.5649, -0.4572) -> (-1.7331, -0.4751)
  arc A17 (-0.4751, -1.7331) -> (-1.7331, -0.4751) centre (-1.7455, -1.7455) ccw
  line L12 (-0.4572, -3.5649) -> (-0.4751, -1.7331)
  dimension "d18" = 45
  dimension "d19" = 2.3961
  dimension "d20" = 3.5941
  dimension "d21" = 7.1882
  dimension "d22" = 0.4572
extrude "Slot" add sketch "Sketch2" against normal up to next contours A2 L5 A5 L6 | L9 A10 L10 A13 | L7 A6 L8 A9 | A14 L11 A17 L12
fillet "Fillet1" radius 0.1829 4 edges at (0, 3.5941, 0) (0, 0, 3.5941) (0, -3.5941, 0) (0, 0, -3.5941)
thread "Thread" size "1/4-20 UNC" class "2A" standard "ANSI Unified Screw Threads" length 11.9888
chamfer "Chamfer1" distance 0.9525 distance2 0.9525 1 edges at (19.05, -3.175, 0) measured on face at (19.05, -0.3658, -0.0841)
ref_plane "Work Plane2" through (2.032, 0, 0) normal (0, 1, 0) x (1, 0, 0)
equation "\"d2\" = GD"
equation "\"d3\" = KOD"
equation "\"d4\" = INTI"
equation "\"d5\" = SDM"
equation "\"d13\" = 0.5 * SEWI"
equation "\"d14\" = KOH"
equation "\"d15\" = NLG"
equation "\"d19\" = 0.333333 * SDM"
equation "\"d20\" = 0.5 * SDM"
equation "\"d21\" = SDM"
equation "\"d22\" = 0.5 * SBR"
equation "\"d45\" = INTI"
equation "\"d25\" = 0.2 * SBR"
equation "\"d9\" = GEL"
equation "\"d11\" = -0.5 * SPD + 0.5 * GD"
equation "\"d12\" = GUL"
equation "\"GD\" = NND"
equation "\"NLG\" = 19.05"
equation "\"GEL\" = 11.9888"
equation "\"KOD\" = 11.4808"
equation "\"KOH\" = 3.8862"
equation "\"SDM\" = 7.1882"
equation "\"INTI\" = 4.3434"
equation "\"SBR\" = 0.9144"
equation "\"GUL\" = 0.75 * GAL"
equation "\"SPD\" = 4.445"
equation "\"SEWI\" = 82deg"
equation "\"d0\" = NLG"
equation "\"d1\" = KOH"
equation "\"d17\" = SDM"
equation "\"TOA\" = 30deg"
equation "\"THREADDIA\" = 6.35"
equation "\"BDM\" = NND"
equation "\"NND\" = 6.35"
equation "\"GAL\" = 1.27"
equation "\"GD1\" = SPD"
properties part number "ANSI B18.6.3 - 1/4-20 x 3/4, CRFCHMSTII(5)" material "Steel, Mild"
